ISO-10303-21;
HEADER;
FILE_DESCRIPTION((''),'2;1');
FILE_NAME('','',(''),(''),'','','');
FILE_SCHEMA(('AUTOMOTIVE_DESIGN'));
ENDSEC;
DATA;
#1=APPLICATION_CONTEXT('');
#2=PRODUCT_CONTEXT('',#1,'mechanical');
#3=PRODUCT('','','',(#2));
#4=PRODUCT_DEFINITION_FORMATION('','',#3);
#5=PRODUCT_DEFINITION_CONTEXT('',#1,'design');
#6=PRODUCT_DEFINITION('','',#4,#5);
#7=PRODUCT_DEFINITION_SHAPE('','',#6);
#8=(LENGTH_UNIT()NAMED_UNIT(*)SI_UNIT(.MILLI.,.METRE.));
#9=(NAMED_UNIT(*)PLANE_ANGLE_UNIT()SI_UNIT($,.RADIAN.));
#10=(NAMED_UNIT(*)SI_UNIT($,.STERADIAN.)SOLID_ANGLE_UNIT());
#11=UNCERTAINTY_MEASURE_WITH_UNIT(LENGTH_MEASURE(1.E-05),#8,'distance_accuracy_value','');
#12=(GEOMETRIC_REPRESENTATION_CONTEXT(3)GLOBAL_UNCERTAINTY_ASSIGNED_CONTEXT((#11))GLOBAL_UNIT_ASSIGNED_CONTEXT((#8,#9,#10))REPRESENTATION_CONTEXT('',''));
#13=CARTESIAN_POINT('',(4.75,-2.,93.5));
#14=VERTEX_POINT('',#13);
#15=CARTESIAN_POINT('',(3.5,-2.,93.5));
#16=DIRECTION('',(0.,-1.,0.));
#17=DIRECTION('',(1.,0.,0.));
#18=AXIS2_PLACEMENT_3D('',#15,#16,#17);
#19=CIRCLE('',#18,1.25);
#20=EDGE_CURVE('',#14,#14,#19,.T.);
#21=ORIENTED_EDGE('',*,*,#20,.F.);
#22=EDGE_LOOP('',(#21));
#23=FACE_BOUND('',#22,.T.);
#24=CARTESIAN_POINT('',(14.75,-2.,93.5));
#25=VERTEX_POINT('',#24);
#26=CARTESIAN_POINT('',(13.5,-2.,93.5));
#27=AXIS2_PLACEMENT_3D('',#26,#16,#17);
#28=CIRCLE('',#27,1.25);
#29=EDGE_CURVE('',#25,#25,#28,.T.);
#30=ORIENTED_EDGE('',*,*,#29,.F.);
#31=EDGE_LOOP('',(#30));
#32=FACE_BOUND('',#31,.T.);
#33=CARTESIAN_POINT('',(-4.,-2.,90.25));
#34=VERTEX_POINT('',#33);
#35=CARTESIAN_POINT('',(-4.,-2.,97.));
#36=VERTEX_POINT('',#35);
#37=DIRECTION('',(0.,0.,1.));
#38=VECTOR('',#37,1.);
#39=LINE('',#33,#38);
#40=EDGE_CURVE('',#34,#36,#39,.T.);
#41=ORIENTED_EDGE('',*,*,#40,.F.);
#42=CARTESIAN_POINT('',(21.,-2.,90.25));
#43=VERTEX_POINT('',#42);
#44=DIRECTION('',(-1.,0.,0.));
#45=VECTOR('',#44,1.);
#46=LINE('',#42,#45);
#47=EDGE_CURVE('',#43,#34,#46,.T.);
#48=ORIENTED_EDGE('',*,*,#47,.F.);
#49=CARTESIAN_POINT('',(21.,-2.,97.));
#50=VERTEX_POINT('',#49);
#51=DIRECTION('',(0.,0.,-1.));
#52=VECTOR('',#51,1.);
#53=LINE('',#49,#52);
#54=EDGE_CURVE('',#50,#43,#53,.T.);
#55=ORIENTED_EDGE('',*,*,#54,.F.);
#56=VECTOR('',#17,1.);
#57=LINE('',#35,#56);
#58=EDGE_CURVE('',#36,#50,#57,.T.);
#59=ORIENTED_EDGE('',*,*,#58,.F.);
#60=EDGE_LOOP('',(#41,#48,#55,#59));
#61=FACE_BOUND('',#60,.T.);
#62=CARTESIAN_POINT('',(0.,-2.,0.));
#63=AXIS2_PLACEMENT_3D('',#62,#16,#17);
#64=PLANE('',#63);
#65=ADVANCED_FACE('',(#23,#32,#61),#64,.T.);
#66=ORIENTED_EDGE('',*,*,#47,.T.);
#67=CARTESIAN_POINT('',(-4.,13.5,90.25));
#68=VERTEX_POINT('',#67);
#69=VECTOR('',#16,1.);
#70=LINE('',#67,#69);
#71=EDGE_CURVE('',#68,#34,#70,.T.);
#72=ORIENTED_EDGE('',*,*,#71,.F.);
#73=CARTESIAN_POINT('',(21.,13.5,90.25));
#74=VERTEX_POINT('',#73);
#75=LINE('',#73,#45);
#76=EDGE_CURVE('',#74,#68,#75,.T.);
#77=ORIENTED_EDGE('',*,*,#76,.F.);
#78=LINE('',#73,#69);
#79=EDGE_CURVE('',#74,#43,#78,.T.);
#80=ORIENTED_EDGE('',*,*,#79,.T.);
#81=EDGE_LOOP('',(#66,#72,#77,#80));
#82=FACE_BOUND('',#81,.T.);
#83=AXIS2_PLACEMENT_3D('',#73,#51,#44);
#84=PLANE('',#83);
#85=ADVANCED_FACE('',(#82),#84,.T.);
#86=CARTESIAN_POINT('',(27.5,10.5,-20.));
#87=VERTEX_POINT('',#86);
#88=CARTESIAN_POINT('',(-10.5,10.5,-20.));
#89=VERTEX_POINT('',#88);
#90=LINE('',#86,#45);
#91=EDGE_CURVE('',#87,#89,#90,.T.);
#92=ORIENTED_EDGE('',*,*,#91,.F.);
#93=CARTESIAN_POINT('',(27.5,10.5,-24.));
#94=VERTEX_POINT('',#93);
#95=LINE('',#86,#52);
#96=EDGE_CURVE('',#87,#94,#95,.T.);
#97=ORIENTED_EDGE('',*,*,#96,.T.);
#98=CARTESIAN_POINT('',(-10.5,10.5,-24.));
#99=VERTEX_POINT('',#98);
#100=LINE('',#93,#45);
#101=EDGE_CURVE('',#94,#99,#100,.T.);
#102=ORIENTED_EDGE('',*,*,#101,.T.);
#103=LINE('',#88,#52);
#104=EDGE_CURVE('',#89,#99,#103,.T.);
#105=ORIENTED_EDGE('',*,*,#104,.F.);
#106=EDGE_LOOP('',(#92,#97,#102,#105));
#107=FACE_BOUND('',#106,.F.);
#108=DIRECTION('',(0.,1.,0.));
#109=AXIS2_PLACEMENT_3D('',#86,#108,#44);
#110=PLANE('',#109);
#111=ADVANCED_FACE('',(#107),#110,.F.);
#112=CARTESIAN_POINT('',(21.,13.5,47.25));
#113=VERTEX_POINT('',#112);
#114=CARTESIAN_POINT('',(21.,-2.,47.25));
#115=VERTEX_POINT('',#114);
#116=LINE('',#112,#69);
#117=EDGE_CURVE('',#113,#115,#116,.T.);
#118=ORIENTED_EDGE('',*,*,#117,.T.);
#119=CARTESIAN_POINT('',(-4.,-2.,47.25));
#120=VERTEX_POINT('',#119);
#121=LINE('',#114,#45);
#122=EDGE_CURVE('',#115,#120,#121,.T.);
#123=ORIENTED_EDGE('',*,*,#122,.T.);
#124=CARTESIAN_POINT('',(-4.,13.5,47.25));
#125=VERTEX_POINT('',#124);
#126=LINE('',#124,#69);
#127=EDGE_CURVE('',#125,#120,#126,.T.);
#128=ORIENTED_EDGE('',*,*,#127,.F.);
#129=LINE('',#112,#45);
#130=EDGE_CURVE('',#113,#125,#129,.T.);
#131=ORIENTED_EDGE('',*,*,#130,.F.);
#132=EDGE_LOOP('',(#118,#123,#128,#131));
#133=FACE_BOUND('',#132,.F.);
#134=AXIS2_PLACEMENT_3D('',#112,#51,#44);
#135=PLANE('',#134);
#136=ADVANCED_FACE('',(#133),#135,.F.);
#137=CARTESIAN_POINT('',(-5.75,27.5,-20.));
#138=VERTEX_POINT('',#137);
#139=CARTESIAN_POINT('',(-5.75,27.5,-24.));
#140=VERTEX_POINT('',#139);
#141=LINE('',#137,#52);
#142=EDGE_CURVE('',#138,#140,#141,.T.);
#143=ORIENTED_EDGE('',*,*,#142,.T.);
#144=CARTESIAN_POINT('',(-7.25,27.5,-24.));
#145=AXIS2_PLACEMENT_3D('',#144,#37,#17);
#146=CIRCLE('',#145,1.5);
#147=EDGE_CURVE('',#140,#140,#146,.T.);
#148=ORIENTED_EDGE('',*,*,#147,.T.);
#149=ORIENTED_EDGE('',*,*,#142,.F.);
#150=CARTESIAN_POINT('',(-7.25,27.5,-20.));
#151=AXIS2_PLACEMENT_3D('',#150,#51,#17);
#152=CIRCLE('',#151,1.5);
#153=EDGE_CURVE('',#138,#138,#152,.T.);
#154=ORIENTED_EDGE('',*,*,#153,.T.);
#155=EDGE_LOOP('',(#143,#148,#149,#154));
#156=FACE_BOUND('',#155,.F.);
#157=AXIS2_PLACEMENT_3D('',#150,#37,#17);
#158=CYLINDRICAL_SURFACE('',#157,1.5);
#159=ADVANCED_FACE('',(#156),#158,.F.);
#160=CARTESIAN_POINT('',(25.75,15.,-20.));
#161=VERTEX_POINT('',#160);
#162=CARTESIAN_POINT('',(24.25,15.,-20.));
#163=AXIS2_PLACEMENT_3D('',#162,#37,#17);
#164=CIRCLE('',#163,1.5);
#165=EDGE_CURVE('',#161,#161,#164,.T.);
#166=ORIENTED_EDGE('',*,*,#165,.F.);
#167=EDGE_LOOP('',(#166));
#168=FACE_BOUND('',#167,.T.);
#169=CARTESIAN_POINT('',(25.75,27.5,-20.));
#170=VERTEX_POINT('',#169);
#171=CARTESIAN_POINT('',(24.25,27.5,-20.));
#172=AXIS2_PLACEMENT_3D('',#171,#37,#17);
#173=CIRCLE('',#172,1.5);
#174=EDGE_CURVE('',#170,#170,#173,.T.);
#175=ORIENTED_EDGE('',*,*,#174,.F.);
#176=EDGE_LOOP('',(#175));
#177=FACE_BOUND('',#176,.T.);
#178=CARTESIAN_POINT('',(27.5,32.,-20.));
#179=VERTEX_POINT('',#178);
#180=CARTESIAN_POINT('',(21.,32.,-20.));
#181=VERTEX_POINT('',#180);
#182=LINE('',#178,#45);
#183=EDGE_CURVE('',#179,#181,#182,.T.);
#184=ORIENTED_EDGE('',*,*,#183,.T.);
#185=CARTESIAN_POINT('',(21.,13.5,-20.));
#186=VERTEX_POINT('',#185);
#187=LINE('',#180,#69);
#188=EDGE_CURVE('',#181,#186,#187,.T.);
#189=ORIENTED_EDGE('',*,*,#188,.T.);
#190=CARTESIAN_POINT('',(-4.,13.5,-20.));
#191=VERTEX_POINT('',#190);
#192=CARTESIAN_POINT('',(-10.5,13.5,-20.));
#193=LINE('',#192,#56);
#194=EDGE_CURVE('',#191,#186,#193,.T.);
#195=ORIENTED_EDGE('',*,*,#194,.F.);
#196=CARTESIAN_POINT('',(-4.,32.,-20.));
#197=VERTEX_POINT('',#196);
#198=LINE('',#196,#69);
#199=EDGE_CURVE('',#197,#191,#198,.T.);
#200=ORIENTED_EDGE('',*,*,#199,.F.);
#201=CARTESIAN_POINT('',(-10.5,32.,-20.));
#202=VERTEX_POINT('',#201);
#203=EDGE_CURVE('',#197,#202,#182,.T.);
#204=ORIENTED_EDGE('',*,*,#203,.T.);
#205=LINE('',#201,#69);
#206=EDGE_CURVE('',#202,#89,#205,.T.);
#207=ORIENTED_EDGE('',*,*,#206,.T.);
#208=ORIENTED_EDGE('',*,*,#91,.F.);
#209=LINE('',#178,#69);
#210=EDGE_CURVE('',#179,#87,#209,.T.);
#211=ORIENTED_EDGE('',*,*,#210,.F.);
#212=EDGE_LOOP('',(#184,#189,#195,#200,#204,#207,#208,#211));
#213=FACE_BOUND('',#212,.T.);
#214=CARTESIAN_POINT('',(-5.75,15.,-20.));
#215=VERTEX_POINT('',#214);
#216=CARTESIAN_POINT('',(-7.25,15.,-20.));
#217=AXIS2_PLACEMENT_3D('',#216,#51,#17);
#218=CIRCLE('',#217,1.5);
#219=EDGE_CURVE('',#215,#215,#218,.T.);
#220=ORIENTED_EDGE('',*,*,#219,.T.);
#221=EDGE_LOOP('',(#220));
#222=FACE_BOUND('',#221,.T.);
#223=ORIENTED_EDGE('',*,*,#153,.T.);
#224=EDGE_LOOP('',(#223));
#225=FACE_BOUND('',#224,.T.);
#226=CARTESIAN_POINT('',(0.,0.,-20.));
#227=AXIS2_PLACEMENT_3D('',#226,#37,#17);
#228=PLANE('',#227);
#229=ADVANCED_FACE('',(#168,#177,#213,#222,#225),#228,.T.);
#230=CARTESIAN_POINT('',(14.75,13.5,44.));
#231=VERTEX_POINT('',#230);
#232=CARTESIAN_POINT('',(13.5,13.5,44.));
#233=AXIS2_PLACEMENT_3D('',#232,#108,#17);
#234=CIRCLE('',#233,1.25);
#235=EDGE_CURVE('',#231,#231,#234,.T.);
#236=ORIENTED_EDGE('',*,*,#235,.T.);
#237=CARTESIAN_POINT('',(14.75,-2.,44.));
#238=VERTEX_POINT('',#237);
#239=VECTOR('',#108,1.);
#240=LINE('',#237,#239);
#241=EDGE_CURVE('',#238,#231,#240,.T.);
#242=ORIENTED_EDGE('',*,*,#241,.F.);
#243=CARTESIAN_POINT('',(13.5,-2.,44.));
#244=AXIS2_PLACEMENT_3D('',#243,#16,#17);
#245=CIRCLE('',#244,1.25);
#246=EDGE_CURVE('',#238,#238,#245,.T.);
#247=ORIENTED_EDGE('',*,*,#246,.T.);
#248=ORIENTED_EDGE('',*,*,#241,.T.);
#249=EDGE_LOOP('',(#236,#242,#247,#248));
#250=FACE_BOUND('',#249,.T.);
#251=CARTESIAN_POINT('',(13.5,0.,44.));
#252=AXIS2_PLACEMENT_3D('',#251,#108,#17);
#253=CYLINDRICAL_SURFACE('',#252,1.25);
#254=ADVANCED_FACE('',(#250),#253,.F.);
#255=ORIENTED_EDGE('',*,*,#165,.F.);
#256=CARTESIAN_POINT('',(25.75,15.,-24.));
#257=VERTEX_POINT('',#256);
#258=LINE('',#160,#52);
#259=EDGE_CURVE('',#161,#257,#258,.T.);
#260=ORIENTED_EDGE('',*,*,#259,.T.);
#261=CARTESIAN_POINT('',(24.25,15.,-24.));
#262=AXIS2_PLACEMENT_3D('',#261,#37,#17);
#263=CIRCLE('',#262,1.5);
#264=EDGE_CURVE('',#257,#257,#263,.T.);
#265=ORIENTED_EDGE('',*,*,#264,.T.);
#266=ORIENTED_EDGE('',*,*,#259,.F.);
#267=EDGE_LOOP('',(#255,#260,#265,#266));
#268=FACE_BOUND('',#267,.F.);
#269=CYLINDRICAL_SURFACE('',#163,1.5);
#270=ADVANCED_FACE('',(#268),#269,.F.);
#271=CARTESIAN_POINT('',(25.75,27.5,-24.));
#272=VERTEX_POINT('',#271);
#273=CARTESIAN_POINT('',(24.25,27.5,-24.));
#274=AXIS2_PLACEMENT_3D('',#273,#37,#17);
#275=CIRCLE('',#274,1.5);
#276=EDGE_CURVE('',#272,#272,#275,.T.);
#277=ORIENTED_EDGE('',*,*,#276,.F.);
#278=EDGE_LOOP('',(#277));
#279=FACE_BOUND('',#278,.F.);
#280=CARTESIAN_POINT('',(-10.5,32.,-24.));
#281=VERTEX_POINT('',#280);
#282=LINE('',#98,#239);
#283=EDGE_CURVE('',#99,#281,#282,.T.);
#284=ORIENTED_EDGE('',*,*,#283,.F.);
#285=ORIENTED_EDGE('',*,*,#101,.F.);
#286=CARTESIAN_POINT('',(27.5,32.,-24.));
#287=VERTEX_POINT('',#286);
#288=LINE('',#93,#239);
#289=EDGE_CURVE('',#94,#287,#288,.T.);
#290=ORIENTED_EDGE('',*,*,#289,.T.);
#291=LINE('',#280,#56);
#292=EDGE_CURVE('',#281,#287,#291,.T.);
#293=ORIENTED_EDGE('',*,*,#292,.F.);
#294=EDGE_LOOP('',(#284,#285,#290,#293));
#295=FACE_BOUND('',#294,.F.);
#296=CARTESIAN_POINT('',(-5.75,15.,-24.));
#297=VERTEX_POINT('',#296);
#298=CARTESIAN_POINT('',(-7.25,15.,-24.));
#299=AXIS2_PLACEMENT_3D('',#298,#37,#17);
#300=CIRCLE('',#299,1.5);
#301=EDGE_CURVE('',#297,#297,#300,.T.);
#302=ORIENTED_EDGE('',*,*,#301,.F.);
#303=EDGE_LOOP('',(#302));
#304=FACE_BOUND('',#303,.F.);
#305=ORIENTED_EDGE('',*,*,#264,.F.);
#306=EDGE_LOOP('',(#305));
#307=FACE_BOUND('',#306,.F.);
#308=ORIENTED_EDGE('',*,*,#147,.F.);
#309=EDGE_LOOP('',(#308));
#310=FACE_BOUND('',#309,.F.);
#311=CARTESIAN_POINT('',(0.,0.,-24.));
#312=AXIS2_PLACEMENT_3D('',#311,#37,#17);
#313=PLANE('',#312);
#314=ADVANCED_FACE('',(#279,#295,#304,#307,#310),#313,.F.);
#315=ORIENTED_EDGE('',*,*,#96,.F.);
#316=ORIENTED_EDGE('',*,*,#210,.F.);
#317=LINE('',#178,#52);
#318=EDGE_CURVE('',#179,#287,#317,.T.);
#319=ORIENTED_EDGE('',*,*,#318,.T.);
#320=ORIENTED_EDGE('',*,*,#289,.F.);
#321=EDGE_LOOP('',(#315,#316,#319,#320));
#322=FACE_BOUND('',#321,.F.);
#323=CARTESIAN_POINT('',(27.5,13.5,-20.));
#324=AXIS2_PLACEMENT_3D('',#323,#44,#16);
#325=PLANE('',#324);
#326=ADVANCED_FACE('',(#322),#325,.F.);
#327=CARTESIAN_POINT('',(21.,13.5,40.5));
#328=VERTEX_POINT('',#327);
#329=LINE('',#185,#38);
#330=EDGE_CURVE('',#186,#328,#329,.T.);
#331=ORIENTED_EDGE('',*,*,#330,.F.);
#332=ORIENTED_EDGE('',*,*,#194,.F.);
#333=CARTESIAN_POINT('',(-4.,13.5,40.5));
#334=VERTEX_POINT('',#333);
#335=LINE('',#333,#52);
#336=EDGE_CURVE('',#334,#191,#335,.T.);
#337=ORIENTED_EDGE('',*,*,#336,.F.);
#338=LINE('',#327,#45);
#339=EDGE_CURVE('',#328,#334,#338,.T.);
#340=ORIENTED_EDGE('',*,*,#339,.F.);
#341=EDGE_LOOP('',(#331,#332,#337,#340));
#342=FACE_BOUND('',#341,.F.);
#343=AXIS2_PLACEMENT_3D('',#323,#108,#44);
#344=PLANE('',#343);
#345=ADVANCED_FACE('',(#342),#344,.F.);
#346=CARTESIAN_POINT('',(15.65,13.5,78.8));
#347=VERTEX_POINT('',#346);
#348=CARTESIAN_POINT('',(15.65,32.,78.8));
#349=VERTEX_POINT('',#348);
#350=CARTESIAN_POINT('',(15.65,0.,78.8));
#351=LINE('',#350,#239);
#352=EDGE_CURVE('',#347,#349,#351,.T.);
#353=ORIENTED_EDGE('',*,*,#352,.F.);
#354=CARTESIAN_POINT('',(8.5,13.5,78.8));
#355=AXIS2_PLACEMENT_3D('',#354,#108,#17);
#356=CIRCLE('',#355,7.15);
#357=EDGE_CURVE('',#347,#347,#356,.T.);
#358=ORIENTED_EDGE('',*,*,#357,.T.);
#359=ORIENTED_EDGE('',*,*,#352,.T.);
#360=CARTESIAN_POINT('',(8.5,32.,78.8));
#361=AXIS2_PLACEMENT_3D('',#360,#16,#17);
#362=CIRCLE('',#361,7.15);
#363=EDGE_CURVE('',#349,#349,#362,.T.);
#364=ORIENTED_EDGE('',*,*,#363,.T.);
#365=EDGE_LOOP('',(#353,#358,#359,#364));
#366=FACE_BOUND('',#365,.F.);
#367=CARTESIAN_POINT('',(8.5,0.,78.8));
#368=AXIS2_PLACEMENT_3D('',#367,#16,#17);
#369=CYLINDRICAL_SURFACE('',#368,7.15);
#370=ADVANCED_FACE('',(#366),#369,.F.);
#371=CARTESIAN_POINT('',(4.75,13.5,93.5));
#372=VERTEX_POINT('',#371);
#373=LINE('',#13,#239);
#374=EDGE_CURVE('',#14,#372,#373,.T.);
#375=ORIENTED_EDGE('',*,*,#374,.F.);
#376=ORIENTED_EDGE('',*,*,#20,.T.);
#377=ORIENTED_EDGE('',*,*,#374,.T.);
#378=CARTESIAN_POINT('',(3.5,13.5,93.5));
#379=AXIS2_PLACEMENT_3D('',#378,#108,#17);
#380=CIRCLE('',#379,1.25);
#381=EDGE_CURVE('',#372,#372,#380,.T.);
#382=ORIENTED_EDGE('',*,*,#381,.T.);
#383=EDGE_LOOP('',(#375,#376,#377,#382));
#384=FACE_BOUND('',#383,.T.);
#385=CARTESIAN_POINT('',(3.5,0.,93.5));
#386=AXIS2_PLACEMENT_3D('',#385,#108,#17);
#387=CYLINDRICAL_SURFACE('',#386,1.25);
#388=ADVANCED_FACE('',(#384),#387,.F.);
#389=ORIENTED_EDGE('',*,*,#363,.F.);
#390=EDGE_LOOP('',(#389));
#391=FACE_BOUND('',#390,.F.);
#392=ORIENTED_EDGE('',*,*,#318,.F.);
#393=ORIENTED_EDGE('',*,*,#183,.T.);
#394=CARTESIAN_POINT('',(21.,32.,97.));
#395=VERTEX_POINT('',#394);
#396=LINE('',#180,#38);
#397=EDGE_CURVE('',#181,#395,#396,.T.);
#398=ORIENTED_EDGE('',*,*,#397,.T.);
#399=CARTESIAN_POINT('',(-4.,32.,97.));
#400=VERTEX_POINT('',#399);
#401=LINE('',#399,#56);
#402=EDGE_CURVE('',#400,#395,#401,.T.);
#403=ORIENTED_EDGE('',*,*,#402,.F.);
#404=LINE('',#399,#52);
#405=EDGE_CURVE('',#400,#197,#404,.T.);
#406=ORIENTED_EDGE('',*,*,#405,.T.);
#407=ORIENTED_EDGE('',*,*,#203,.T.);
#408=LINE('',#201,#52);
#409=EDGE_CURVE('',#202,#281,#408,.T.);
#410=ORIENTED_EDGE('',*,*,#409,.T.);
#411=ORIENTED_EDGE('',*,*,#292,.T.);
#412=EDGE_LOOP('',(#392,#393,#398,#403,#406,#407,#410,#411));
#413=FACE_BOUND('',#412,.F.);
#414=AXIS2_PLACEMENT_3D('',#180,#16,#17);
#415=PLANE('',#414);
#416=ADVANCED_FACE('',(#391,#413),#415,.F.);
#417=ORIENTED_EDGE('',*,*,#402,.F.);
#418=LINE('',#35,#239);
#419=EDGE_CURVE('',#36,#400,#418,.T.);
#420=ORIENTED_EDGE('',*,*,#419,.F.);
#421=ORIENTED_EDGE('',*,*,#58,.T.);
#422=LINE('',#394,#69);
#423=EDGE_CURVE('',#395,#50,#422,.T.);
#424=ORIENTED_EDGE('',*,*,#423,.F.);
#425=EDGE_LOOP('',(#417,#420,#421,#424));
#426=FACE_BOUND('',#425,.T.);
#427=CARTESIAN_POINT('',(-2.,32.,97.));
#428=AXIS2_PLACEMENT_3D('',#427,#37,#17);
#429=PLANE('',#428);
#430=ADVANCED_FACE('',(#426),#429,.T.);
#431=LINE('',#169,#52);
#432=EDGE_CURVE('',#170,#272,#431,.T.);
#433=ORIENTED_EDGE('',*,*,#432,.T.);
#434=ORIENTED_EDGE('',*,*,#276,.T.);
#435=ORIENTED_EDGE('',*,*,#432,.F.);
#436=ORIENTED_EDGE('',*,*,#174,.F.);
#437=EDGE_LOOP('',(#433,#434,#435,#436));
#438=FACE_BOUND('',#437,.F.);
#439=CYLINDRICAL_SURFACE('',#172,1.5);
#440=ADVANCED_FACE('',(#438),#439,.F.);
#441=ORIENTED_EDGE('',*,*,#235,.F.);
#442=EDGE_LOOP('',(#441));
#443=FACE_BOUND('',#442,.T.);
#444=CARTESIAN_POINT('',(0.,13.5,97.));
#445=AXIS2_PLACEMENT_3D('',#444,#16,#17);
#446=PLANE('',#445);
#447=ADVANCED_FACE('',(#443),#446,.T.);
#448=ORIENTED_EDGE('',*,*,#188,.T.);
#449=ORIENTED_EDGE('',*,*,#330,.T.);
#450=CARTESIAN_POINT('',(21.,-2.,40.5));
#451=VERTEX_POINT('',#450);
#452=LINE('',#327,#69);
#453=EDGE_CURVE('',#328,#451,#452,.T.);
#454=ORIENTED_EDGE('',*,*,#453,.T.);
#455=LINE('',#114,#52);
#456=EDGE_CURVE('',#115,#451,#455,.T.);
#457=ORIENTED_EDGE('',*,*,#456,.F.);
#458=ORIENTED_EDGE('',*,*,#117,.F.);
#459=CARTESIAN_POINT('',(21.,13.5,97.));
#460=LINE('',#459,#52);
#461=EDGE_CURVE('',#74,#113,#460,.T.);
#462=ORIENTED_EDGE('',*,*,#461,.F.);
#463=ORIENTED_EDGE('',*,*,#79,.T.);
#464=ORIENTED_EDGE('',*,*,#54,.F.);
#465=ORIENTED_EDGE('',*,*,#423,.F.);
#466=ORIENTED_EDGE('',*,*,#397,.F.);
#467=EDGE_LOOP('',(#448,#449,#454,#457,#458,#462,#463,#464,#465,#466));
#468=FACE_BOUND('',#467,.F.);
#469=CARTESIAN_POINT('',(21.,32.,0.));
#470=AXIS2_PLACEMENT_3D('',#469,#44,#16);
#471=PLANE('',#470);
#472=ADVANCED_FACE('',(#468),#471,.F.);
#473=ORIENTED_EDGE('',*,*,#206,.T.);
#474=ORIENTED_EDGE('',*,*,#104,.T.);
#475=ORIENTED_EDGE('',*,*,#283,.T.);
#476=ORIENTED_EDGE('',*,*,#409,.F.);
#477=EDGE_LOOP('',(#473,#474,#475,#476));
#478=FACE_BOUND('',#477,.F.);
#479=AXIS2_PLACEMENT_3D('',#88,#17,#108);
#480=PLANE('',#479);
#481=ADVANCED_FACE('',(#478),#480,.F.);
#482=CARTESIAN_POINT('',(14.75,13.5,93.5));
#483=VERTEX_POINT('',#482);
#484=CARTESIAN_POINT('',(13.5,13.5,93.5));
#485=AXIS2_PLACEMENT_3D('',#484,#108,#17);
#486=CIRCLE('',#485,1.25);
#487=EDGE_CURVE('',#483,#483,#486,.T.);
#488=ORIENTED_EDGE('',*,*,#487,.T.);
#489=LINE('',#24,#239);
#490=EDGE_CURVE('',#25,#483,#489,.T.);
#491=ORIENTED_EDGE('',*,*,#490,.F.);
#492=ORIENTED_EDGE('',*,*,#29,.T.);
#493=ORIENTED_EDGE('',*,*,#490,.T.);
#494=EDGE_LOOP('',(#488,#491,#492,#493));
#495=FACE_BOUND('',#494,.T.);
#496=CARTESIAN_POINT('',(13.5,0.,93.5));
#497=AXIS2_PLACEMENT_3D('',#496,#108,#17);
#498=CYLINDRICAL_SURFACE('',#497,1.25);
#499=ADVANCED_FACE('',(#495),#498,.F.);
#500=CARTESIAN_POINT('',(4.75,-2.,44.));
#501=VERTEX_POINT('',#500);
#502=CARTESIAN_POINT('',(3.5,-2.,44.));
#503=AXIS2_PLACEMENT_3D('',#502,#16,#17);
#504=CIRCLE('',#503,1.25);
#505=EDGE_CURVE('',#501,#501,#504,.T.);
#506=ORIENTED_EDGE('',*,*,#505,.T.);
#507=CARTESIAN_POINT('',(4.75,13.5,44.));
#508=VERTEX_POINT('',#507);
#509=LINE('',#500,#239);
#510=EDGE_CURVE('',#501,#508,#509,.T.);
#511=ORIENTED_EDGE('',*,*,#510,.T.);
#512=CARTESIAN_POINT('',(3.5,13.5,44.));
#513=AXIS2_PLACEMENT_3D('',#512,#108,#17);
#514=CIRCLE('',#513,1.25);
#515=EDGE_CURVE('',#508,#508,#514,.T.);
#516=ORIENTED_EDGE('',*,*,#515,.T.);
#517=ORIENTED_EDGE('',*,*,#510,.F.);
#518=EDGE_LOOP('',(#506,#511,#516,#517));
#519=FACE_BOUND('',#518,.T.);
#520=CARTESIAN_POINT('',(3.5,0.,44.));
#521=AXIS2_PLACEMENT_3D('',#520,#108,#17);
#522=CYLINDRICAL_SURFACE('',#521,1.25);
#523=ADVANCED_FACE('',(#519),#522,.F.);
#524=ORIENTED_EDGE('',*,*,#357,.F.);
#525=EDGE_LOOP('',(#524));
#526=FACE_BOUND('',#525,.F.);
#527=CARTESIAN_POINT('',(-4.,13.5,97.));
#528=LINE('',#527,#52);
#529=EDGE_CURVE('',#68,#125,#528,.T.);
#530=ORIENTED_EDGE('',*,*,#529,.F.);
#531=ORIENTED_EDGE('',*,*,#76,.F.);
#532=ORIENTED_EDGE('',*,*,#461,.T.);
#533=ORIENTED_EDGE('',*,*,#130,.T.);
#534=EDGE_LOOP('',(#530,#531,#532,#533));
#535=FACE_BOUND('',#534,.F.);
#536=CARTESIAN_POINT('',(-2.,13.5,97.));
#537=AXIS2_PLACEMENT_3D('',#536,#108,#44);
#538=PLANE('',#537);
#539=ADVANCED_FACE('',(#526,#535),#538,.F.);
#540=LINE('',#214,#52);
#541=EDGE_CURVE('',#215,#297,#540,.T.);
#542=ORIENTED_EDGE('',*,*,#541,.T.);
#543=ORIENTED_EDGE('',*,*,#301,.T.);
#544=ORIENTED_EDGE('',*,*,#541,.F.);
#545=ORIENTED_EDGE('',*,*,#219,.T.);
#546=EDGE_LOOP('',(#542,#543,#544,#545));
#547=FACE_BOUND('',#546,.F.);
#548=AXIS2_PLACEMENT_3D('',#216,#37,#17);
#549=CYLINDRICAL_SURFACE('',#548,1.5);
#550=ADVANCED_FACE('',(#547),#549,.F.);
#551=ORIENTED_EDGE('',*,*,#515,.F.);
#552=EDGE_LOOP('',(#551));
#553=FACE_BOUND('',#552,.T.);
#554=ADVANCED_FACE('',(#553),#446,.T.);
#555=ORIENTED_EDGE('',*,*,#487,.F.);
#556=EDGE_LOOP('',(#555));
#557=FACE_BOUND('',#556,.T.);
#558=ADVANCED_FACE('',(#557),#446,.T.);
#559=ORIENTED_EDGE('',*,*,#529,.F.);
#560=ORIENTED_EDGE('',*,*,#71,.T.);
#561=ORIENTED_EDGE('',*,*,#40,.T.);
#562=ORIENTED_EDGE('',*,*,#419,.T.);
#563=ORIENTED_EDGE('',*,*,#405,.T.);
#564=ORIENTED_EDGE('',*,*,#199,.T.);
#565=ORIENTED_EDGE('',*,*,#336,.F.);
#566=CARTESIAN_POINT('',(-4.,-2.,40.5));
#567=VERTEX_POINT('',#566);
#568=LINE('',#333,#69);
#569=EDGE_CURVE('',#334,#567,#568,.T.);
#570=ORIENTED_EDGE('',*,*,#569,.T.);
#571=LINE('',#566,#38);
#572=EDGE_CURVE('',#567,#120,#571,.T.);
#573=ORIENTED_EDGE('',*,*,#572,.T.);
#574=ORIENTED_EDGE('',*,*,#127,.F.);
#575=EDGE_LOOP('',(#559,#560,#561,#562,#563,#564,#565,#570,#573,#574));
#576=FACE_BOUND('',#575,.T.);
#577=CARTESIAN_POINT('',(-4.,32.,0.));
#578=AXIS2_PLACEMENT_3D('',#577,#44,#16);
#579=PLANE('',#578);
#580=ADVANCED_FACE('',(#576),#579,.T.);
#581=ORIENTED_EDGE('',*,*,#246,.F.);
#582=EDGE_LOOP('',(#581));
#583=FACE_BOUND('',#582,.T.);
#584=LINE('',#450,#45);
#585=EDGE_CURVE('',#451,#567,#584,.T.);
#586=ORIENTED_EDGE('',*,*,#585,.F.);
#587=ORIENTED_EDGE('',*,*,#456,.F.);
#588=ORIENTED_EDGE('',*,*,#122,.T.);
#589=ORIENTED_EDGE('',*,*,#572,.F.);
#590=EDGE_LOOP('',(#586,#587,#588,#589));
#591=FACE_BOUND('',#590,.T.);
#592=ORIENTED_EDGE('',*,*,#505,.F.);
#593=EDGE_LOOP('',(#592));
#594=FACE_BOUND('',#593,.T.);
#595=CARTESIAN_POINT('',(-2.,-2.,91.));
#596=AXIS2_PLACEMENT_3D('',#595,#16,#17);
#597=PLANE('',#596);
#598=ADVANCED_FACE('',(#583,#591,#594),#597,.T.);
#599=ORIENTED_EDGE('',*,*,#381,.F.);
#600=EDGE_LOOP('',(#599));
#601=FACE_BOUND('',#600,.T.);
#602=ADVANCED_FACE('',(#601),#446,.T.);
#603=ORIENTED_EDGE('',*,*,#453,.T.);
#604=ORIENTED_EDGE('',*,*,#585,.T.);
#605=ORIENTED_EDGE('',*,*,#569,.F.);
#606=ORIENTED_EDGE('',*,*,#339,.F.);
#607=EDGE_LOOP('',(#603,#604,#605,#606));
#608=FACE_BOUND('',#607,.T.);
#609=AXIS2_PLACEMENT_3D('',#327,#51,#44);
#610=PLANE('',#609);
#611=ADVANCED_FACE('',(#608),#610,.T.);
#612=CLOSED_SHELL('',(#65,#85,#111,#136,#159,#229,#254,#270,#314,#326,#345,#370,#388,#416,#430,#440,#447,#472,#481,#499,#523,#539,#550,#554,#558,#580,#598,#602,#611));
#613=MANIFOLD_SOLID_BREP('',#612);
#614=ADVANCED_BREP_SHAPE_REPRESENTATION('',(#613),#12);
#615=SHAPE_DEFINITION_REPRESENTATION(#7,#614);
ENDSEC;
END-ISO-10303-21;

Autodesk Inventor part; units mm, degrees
ref_plane "YZ Plane" through (0, 0, 0) normal (1, 0, 0) x (0, 1, 0)
ref_plane "XZ Plane" through (0, 0, 0) normal (0, 1, 0) x (-1, 0, 0)
ref_plane "XY Plane" through (0, 0, 0) normal (0, 0, 1) x (1, 0, 0)
sketch "Sketch14" plane through (0, 0, 0) normal (0, 0, 1) x (1, 0, 0)
  line L0 (0, 0) -> (17, 0)
  line L1 (17, 0) -> (17, 30)
  line L2 (17, 30) -> (0, 30)
  line L3 (0, 30) -> (0, 0)
  line L4 (-6, 36) -> (23, 36)
  line L5 (23, 36) -> (23, -6)
  line L6 (23, -6) -> (-6, -6)
  line L7 (-6, -6) -> (-6, 36)
  dimension "d55" = 17
  dimension "d56" = 30
  dimension "d57" = 6
extrude "Extrusion12" add sketch "Sketch14" against normal blind 3 contours L3 L2 L1 L0 | L4 L5 L6 L7
extrude "Extrusion13" add sketch "Sketch14" along normal blind 90 contours L3 L2 L1 L0
sketch "Sketch15" plane through (0, 0, 0) normal (0, -1, 0) x (1, 0, 0)
  line L0 (0, 0) -> (0, 90) projected
  line L1 (0, 90) -> (17.1111, 90)
  line L2 (0, 90) -> (17, 90)
  line L3 (17, 90) -> (17, 97)
  line L4 (17, 97) -> (0, 97)
  line L5 (0, 97) -> (0, 90)
  line L6 (17, 90) -> (0, 90) projected
  circle A0 centre (3.5, 93.5) radius 1.25
  circle A1 centre (13.5, 93.5) radius 1.25
  line L7 (8.5, 113.1) -> (8.5, 78.8)
  circle A2 centre (8.5, 78.8) radius 7.15
  circle A3 centre (3.5, 44) radius 1.25
  circle A4 centre (13.5, 44) radius 1.25
  line L8 (17, 0) -> (17, 90) projected
  line L9 (0, 97) -> (17, 97)
  line L10 (17, 97) -> (17, 42)
  line L11 (17, 42) -> (0, 42)
  line L12 (0, 42) -> (0, 97)
  line L13 (8.5, 113.1) -> (8.5, 98.4)
  line L14 (3.5, 44) -> (13.5, 44)
  dimension "d67" = 7
  dimension "d70" = 2.5
  dimension "d71" = 2.5
  dimension "d72" = 34.3
  dimension "d73" = 14.3
  dimension "d79" = 55
  dimension "d95" = 14.7
extrude "Extrusion14" cut sketch "Sketch15" against normal blind 169.375 contours A2
extrude "Extrusion15" cut sketch "Sketch15" against normal blind 15.5 contours L0 L1 L8 L11
extrude "Extrusion16" cut sketch "Sketch15" against normal blind 20 contours A3 | A4
extrude "Extrusion17" add sketch "Sketch15" against normal blind 30 contours L5 L4 L7 L1 | L7 L4 L3 L1
sketch "Sketch16" plane through (0, 0, 0) normal (0, -1, 0) x (1, 0, 0)
  line L0 (0, 0) -> (0, 97) projected
  line L1 (17, 0) -> (17, 97) projected
  line L2 (0, 97) -> (17, 97)
  line L3 (17, 97) -> (17, 90)
  line L4 (17, 90) -> (0, 90)
  line L5 (0, 90) -> (0, 97)
  dimension "d86" = 7
extrude "Extrusion18" cut sketch "Sketch15" against normal blind 15.5 contours L5 L4 L7 L1 | L7 L4 L3 L1
sketch "Sketch17" plane through (0, 15.5, 0) normal (0, -1, 0) x (1, 0, 0)
  line L0 (0, 97) -> (17, 97) projected
  line L1 (17, 0) -> (17, 97) projected
  line L2 (0, 97) -> (17, 97)
  line L3 (17, 97) -> (17, 91)
  line L4 (17, 91) -> (0, 91)
  line L5 (0, 91) -> (0, 97)
  line L6 (17, 42) -> (0, 42) projected
  line L7 (0, 42) -> (17, 42)
  line L8 (17, 42) -> (17, 47)
  line L9 (17, 47) -> (0, 47)
  line L10 (0, 47) -> (0, 42)
  circle A0 centre (3.5, 44) radius 1.25 projected
  circle A1 centre (3.5, 44) radius 1.25
  circle A2 centre (13.5, 44) radius 1.25 projected
  circle A3 centre (13.5, 44) radius 1.25
  circle A4 centre (3.5, 93.5) radius 1.25 projected
  circle A5 centre (3.5, 93.5) radius 1.25
  circle A6 centre (13.5, 93.5) radius 1.25 projected
  circle A7 centre (13.5, 93.5) radius 1.25
  point P0 (0, 0)
  dimension "d89" = 6
  dimension "d90" = 5
  dimension "d91" = 2.5
  dimension "d92" = 2.5
extrude "Extrusion19" add sketch "Sketch17" along normal blind 15.5
sketch "Sketch19" plane through (0, 0, 0) normal (0, -1, 0) x (1, 0, 0)
  line L0 (0, 0) -> (0, 47) projected
  line L1 (17, 0) -> (17, 47) projected
  line L2 (0, 0) -> (17, 0)
  line L3 (17, 0) -> (17, 40)
  line L4 (17, 40) -> (0, 40)
  line L5 (0, 40) -> (0, 0)
  dimension "d96" = 40
extrude "Extrusion20" cut sketch "Sketch19" against normal blind 15.5
sketch "Sketch23" plane through (0, 0, 0) normal (0, 0, 1) x (1, 0, 0)
  line L0 (0, 15.5) -> (17, 15.5) projected
  line L1 (0, 15.5) -> (0, 9.5)
  line L2 (0, 15.5) -> (0, 0) projected
  line L3 (0, 9.5) -> (-6, 9.5)
  line L4 (-6, -6) -> (-6, 36) projected
  line L5 (23, 36) -> (23, -6) projected
  line L6 (23, 9.5) -> (0, 9.5)
  line L7 (-6, 9.5) -> (23, 9.5)
  line L8 (23, 9.5) -> (23, 36)
  line L9 (23, 36) -> (-6, 36)
  line L10 (-6, 36) -> (-6, 9.5)
  line L11 (23, -6) -> (-6, -6) projected
  line L12 (-6, -6) -> (23, -6)
  line L13 (23, -6) -> (23, 9.5)
  line L14 (23, 9.5) -> (-6, 9.5)
  line L15 (-6, 9.5) -> (-6, -6)
  dimension "d99" = 6
extrude "Extrusion21" cut sketch "Sketch23" against normal blind 15.5 contours L6 L5 L11 L4 L3
sketch "Sketch24" plane through (0, 30, 97) normal (0, 0, 1) x (1, 0, 0)
  line L0 (17, 0) -> (17, -14.5) projected
  line L1 (17, 0) -> (19, 0)
  line L2 (19, 0) -> (19, 2)
  line L3 (0, -14.5) -> (0, -30) projected
  line L4 (0, -14.5) -> (-2, -14.5)
  line L5 (-2, -14.5) -> (-2, -16.5)
  line L6 (-2, -16.5) -> (19, -16.5)
  line L7 (19, -16.5) -> (19, 2)
  line L8 (19, 2) -> (-2, 2)
  line L9 (-2, 2) -> (-2, -16.5)
  dimension "d111" = 2
  dimension "d112" = 2
  dimension "d113" = 2
  dimension "d114" = 2
extrude "Extrusion22" add sketch "Sketch24" against normal blind 97
extrude "Extrusion23" cut sketch "Sketch15" against normal blind 169.375 contours A2
sketch "Sketch26" plane through (-2, 13.5, 0) normal (0, -1, 0) x (1, 0, 0)
  line L0 (0, 97) -> (2, 97) projected
  line L1 (2, 97) -> (2, 91) projected
  line L2 (0, 97) -> (2, 97)
  line L3 (2, 97) -> (2, 91)
  line L4 (2, 91) -> (0, 91)
  line L5 (0, 91) -> (0, 97)
  line L6 (2, 91) -> (19, 91) projected
  line L7 (19, 97) -> (21, 97) projected
  line L8 (19, 91) -> (21, 91)
  line L9 (21, 91) -> (21, 97)
  line L10 (21, 97) -> (19, 97)
  line L11 (19, 97) -> (19, 91)
  line L12 (2, 40) -> (19, 40) projected
  line L13 (0, 97) -> (0, 0) projected
  line L14 (2, 40) -> (0, 40)
  line L15 (0, 40) -> (0, 47)
  line L16 (0, 47) -> (2, 47)
  line L17 (2, 47) -> (2, 40)
  line L18 (19, 40) -> (19, 47) projected
  line L19 (21, 97) -> (21, 0) projected
  line L20 (19, 40) -> (21, 40)
  line L21 (21, 40) -> (21, 47)
  line L22 (21, 47) -> (19, 47)
  line L23 (19, 47) -> (19, 40)
  point P0 (2, 0)
  point P1 (0, 40)
  dimension "d119" = 7
extrude "Extrusion24" add sketch "Sketch26" along normal blind 13.5 contours L0 L1 L4 L5 | L16 L17 L14 L13 | L11 L7 L9 L8 | L19 L20 L18 L22
sketch "Sketch27" plane through (0, 0, 0) normal (0, 0, 1) x (1, 0, 0)
  point P0 (0, 0)
sketch "Sketch28" plane through (0, 0, 0) normal (0, 0, 1) x (1, 0, 0)
  line L0 (-6, 9.5) -> (-6, 36) projected
  line L1 (-6, 36) -> (23, 36) projected
  line L2 (-6, 31.9237) -> (23, 31.9237)
  line L3 (23, 31.9237) -> (23, 36)
  line L4 (23, 36) -> (-6, 36)
  line L5 (-6, 36) -> (-6, 31.9237)
  point P0 (0, 0)
extrude "Extrusion25" cut sketch "Sketch28" against normal blind 13.5
sketch "Sketch29" plane through (0, 0, 0) normal (0, -1, 0) x (1, 0, 0)
  point P0 (0, 0)
sketch "Sketch30" plane through (0, 0, 0) normal (0, -1, 0) x (1, 0, 0)
  line L0 (19, 97) -> (-2, 97) projected
  line L1 (-2, 91) -> (19, 91) projected
  line L2 (-2, 97) -> (19, 97)
  line L3 (19, 97) -> (19, 91)
  line L4 (19, 91) -> (-2, 91)
  line L5 (-2, 91) -> (-2, 97)
  line L6 (-2, 47) -> (-2, 40) projected
  line L7 (-2, 40) -> (19, 40) projected
  line L8 (-2, 47) -> (19, 47)
  line L9 (19, 47) -> (19, 40)
  line L10 (19, 40) -> (-2, 40)
  line L11 (-2, 40) -> (-2, 47)
  circle A0 centre (3.5, 93.5) radius 1.25 projected
  circle A1 centre (3.5, 93.5) radius 1.25
  circle A2 centre (13.5, 93.5) radius 1.25 projected
  circle A3 centre (13.5, 93.5) radius 1.25
  circle A4 centre (3.5, 44) radius 1.25 projected
  circle A5 centre (3.5, 44) radius 1.25
  circle A6 centre (13.5, 44) radius 1.25 projected
  circle A7 centre (13.5, 44) radius 1.25
  point P0 (0, 0)
extrude "Extrusion26" add sketch "Sketch30" along normal blind 2
sketch "Sketch31" plane through (0, 0, -3) normal (0, 0, -1) x (-1, 0, 0)
  point P0 (0, 0)
  point P1 (6, 9.5)
  point P2 (-23, 31.9237)
sketch "Sketch32" plane through (-2, 13.5, 47) normal (0, -1, 0) x (1, 0, 0)
  point P0 (2, -47)
sketch "Sketch33" plane through (-2, 32, 97) normal (0, 0, 1) x (1, 0, 0)
  line L0 (21, -34) -> (21, 0) projected
  line L1 (-4, -22.5) -> (25, -22.5) projected
  line L2 (21, 0) -> (23, 0)
  line L3 (23, 0) -> (23, -22.5)
  line L4 (23, -22.5) -> (21, -22.5)
  line L5 (21, -22.5) -> (21, 0)
  line L6 (0, -18.5) -> (0, -34) projected
  line L7 (-4, -0.0763) -> (25, -0.0763) projected
  line L8 (0, -22.5) -> (-2, -22.5)
  line L9 (-2, -22.5) -> (-2, -0.0763)
  line L10 (-2, -0.0763) -> (0, -0.0763)
  line L11 (0, -0.0763) -> (0, -22.5)
  line L12 (0, -18.5) -> (-2, -18.5)
  line L13 (21, -18.5) -> (21, -34) projected
  line L14 (21, -18.5) -> (23, -18.5)
  point P0 (2, -32)
  point P1 (0, -0.0763)
  point P2 (23, -0.0763)
  point P3 (21, -0.0763)
  dimension "d126" = 2
  dimension "d127" = 2
extrude "Extrusion27" add sketch "Sketch33" against normal blind 100 contours L0 L7 L3 L14 | L12 L9 L7 L11
sketch "Sketch34" plane through (0, -2, 0) normal (0, -1, 0) x (1, 0, 0)
  line L0 (-2, 47) -> (19, 47) projected
  line L1 (-2, 47) -> (-2, 40) projected
  line L2 (19, 47) -> (-2, 47)
  line L3 (-2, 47) -> (-2, 41)
  line L4 (-2, 41) -> (19, 41)
  line L5 (19, 41) -> (19, 47)
  line L6 (-2, 40) -> (19, 40) projected
  line L7 (19, 41) -> (-2, 41)
  line L8 (-2, 41) -> (-2, 40)
  line L9 (-2, 40) -> (19, 40)
  line L10 (19, 40) -> (19, 41)
  point P0 (0, 0)
  dimension "d130" = 6
sketch "Sketch35" plane through (0, -2, 0) normal (0, -1, 0) x (1, 0, 0)
  line L0 (-2, 47) -> (19, 47) projected
  line L1 (-2, 47) -> (-2, 91) projected
  line L2 (19, 47) -> (-2, 47)
  line L3 (-2, 47) -> (-2, 46.5)
  line L4 (-2, 46.5) -> (19, 46.5)
  line L5 (19, 46.5) -> (19, 47)
  line L6 (-2, 40) -> (19, 40) projected
  line L7 (-2, 47) -> (-2, 40) projected
  line L8 (19, 40) -> (-2, 40)
  line L9 (-2, 40) -> (-2, 40.5)
  line L10 (-2, 40.5) -> (19, 40.5)
  line L11 (19, 40.5) -> (19, 40)
  point P0 (0, 0)
  point P1 (-2, 41)
  dimension "d133" = 0.5
  dimension "d136" = 0.5
extrude "Extrusion29" cut sketch "Sketch35" against normal blind 15.5 contours L0 L5 L4 L3
extrude "Extrusion30" cut sketch "Sketch35" against normal blind 15.5 contours L10 L11 L6 L7
sketch "Sketch36" plane through (-2, 13.5, 91) normal (0, -1, 0) x (1, 0, 0)
  line L0 (-2, 6) -> (0, 6) projected
  line L1 (21, 0) -> (0, 0) projected
  line L2 (-2, 6) -> (0, 6)
  line L3 (0, 6) -> (0, 0)
  line L4 (0, 0) -> (-2, 0)
  line L5 (-2, 0) -> (-2, 6)
  line L6 (21, 0) -> (21, 6) projected
  line L7 (23, 6) -> (23, -91) projected
  line L8 (21, 6) -> (23, 6)
  line L9 (23, 6) -> (23, 0)
  line L10 (23, 0) -> (21, 0)
  line L11 (21, 0) -> (21, 6)
  line L12 (21, -44.5) -> (0, -44.5) projected
  line L13 (-2, 6) -> (-2, -91) projected
  line L14 (0, -44.5) -> (-2, -44.5)
  line L15 (-2, -44.5) -> (-2, -50.5)
  line L16 (-2, -50.5) -> (0, -50.5)
  line L17 (0, -50.5) -> (0, -44.5)
  line L18 (21, -44.5) -> (23, -44.5)
  line L19 (23, -44.5) -> (23, -50.5)
  line L20 (23, -50.5) -> (21, -50.5)
  line L21 (21, -50.5) -> (21, -44.5)
  point P0 (2, -91)
  point P1 (23, -44.5)
  dimension "d139" = 6
extrude "Extrusion31" add sketch "Sketch36" along normal blind 15.5 contours L0 L3 L4 L5 | L14 L17 L16 L13 | L6 L8 L7 L10 | L18 L7 L20 L21
sketch "Sketch37" plane through (0, 0, -3) normal (0, 0, -1) x (-1, 0, 0)
  line L0 (-23, 9.5) -> (6, 9.5) projected
  line L1 (-23, 9.5) -> (6, 9.5)
  line L2 (6, 9.5) -> (6, 32)
  line L3 (6, 32) -> (-23, 32)
  line L4 (-23, 32) -> (-23, 9.5)
  point P0 (0, 0)
  point P1 (6, 9.5)
  dimension "d142" = 29
extrude "Extrusion32" add sketch "Sketch37" against normal blind 3
sketch "Sketch38" plane through (0, 0, -3) normal (0, 0, -1) x (-1, 0, 0)
  line L0 (-23, 9.5) -> (6, 9.5) projected
  line L1 (-23, 9.5) -> (-27, 9.5)
  line L2 (-27, 9.5) -> (-27, 32)
  line L3 (6, 32) -> (-23, 32) projected
  line L4 (-27, 32) -> (6, 32)
  line L5 (6, 9.5) -> (10, 9.5)
  line L6 (10, 9.5) -> (10, 32)
  line L7 (10, 32) -> (-27, 32)
  point P0 (0, 0)
  dimension "d145" = 4
  dimension "d146" = 4
extrude "Extrusion33" add sketch "Sketch38" against normal blind 3
sketch "Sketch39" plane through (0, 0, 0) normal (0, 0, 1) x (1, 0, 0)
  line L0 (21, 31.9237) -> (19, 31.9237) projected
  line L1 (19, 32) -> (19, 31.9237) projected
  line L2 (21, 31.9237) -> (19, 31.9237)
  line L3 (19, 31.9237) -> (19, 32)
  line L4 (19, 32) -> (21, 32)
  line L5 (21, 32) -> (21, 31.9237)
  line L6 (-2, 31.9237) -> (-2, 32) projected
  line L7 (-2, 31.9237) -> (-4, 31.9237) projected
  line L8 (-2, 32) -> (-4, 32)
  line L9 (-4, 32) -> (-4, 31.9237)
  line L10 (-4, 31.9237) -> (-2, 31.9237)
  line L11 (-2, 31.9237) -> (-2, 32)
  point P0 (0, 0)
extrude "Extrusion34" add sketch "Sketch39" along normal blind 97
sketch "Sketch40" plane through (0, 0, 0) normal (0, 0, 1) x (1, 0, 0)
  point P0 (0, 0)
sketch "Sketch41" plane through (0, 0, 0) normal (0, 0, 1) x (1, 0, 0)
  line L0 (-10, 32) -> (-10, 27.5)
  line L1 (-10, 32) -> (-10, 9.5) projected
  line L2 (-10, 9.5) -> (27, 9.5) projected
  line L3 (-10, 9.5) -> (-10, 14)
  line L4 (-10, 9.5) -> (-10.5, 9.5)
  line L5 (-10.5, 9.5) -> (-10.5, 32)
  line L6 (-10.5, 32) -> (-10, 32)
  line L7 (-10, 32) -> (-10, 9.5)
  line L8 (-10.5, 14) -> (-7.5, 14)
  line L9 (-10.5, 27.5) -> (-7.5, 27.5)
  circle A0 centre (-7.5, 14) radius 1.5
  circle A1 centre (-7.5, 27.5) radius 1.5
  line L10 (27, 9.5) -> (27, 32) projected
  line L11 (27, 9.5) -> (27.5, 9.5)
  line L12 (27.5, 9.5) -> (27.5, 32)
  line L13 (27.5, 32) -> (27, 32)
  line L14 (27, 32) -> (27, 9.5)
  line L15 (27.5, 9.5) -> (27.5, 14)
  line L16 (27.5, 14) -> (24.5, 14)
  line L17 (27.5, 32) -> (27.5, 27.5)
  line L18 (27.5, 27.5) -> (24.5, 27.5)
  circle A2 centre (24.5, 14) radius 1.5
  circle A3 centre (24.5, 27.5) radius 1.5
  point P0 (0, 0)
  dimension "d151" = 4.5
  dimension "d152" = 4.5
  dimension "d153" = 0.5
  dimension "d154" = 3
  dimension "d155" = 3
  dimension "d156" = 3
  dimension "d157" = 3
  dimension "d158" = 0.5
  dimension "d159" = 4.5
  dimension "d160" = 3
  dimension "d161" = 4.5
  dimension "d162" = 3
  dimension "d163" = 3
  dimension "d164" = 3
sketch "Sketch42" plane through (0, 0, -3) normal (0, 0, -1) x (-1, 0, 0)
  point P0 (0, 0)
sketch "Sketch43" plane through (0, 0, -3) normal (0, 0, -1) x (-1, 0, 0)
  line L0 (-21, -2) -> (-21, 32) projected
  line L1 (4, 13.5) -> (4, -2) projected
  line L2 (-21, 32) -> (4, 32)
  line L3 (4, 32) -> (4, 9.5)
  line L4 (4, 9.5) -> (-21, 9.5)
  line L5 (-21, 9.5) -> (-21, 32)
  point P0 (0, 0)
  dimension "d165" = 22.5
sketch "Sketch44" plane through (0, 0, -3) normal (0, 0, -1) x (-1, 0, 0)
  line L0 (10, 9.5) -> (10, 32) projected
  line L1 (10, 9.5) -> (-28.3786, 9.5)
  line L2 (-28.3786, 9.5) -> (-28.3786, 33.0505)
  line L3 (-28.3786, 33.0505) -> (10, 33.0505)
  line L4 (10, 33.0505) -> (10, 9.5)
  point P0 (0, 0)
extrude "Extrusion35" cut sketch "Sketch44" against normal blind 3
sketch "Sketch45" plane through (0, 0, 0) normal (0, 0, -1) x (-1, 0, 0)
  line L0 (4, 13.5) -> (-21, 13.5) projected
  line L1 (4, 32) -> (4, -2) projected
  line L2 (-21, 13.5) -> (4, 13.5)
  line L3 (4, 13.5) -> (4, 32)
  line L4 (4, 32) -> (-21, 32)
  line L5 (-21, 32) -> (-21, 13.5)
  point P0 (0, 0)
extrude "Extrusion36" add sketch "Sketch45" along normal blind 20
sketch "Sketch46" plane through (0, 0, -20) normal (0, 0, -1) x (-1, 0, 0)
  line L0 (-21, 32) -> (4, 32) projected
  line L1 (-21, 32) -> (-27.5, 32)
  line L2 (-27.5, 32) -> (-27.5, 13.5)
  line L3 (-27.5, 13.5) -> (-21, 13.5)
  line L4 (-21, 13.5) -> (-21, 32)
  line L5 (4, 32) -> (4, -2) projected
  line L6 (4, 32) -> (10.5, 32)
  line L7 (10.5, 32) -> (10.5, 13.5)
  line L8 (10.5, 13.5) -> (4, 13.5)
  line L9 (4, 13.5) -> (4, 32)
  line L10 (10.5, 13.5) -> (-27.5, 13.5)
  point P0 (0, 0)
extrude "Extrusion37" add sketch "Sketch46" along normal blind 4
sketch "Sketch47" plane through (0, 0, -20) normal (0, 0, 1) x (1, 0, 0)
  line L0 (-4, 13.5) -> (-10.5, 13.5) projected
  line L1 (-10.5, 13.5) -> (27.5, 13.5)
  line L2 (27.5, 13.5) -> (27.5, 10.5)
  line L3 (27.5, 10.5) -> (-10.5, 10.5)
  line L4 (-10.5, 10.5) -> (-10.5, 13.5)
  point P0 (0, 0)
  dimension "d175" = 3
extrude "Extrusion38" add sketch "Sketch47" against normal blind 4
sketch "Sketch48" plane through (0, 0, -20) normal (0, 0, 1) x (1, 0, 0)
  line L0 (-10.5, 10.5) -> (27.5, 10.5) projected
  line L1 (-10.5, 10.5) -> (-10.5, 15)
  line L2 (-10.5, 10.5) -> (-10.5, 32) projected
  line L3 (-10.5, 15) -> (-7.25, 15)
  line L4 (-10.5, 32) -> (-10.5, 27.5)
  line L5 (-10.5, 27.5) -> (-7.25, 27.5)
  circle A0 centre (-7.25, 15) radius 1.5
  circle A1 centre (-7.25, 27.5) radius 1.5
  line L6 (27.5, 32) -> (27.5, 10.5) projected
  line L7 (27.5, 10.5) -> (27.5, 15)
  line L8 (27.5, 15) -> (27.5, 18)
  line L9 (27.5, 15) -> (24.25, 15)
  line L10 (-10.5, 32) -> (27.5, 32) projected
  line L11 (27.5, 32) -> (27.5, 27.5)
  line L12 (27.5, 27.5) -> (24.25, 27.5)
  circle A2 centre (24.25, 27.5) radius 1.5
  circle A3 centre (24.25, 15) radius 1.5
  line L13 (-7.5, 15) -> (-7.25, 15)
  line L14 (24.5, 15) -> (24.25, 15)
  point P0 (0, 0)
  dimension "d178" = 4.5
  dimension "d180" = 4.5
  dimension "d184" = 4.5
  dimension "d185" = 3
  dimension "d187" = 4.5
  dimension "d195" = 0.25
extrude "Extrusion39" cut sketch "Sketch48" against normal blind 4 contours A3 | A2 | A1 | A0
sketch "Sketch49" plane through (0, -2, 0) normal (0, -1, 0) x (1, 0, 0)
  point P0 (0, 0)
sketch "Sketch50" plane through (-4, 13.5, 91) normal (0, -1, 0) x (1, 0, 0)
  point P0 (4, -91)
sketch "019855" plane through (-4, 13.5, 91) normal (0, -1, 0) x (1, 0, 0)
  circle A0 centre (12.5, -12.2) radius 7.15 projected
  line L0 (19.65, -10.7) -> (19.65, -13.7)
  line L1 (19.65, -13.7) -> (19.65, -12.2)
  line L2 (5.35, -10.7) -> (5.35, -13.7)
  line L3 (5.5091, -12.2) -> (5.35, -12.2)
  line L4 (19.65, -10.7) -> (19.65, -13.7)
  line L5 (5.35, -13.7) -> (5.35, -10.7)
  point P0 (4, -91)
  point P1 (19.65, -12.2)
thread "Thread5" size "M2.5x0.45" class "6H" standard "ANSI Metric M Profile" full length
thread "Thread6" size "M2.5x0.45" class "6H" standard "ANSI Metric M Profile" full length
thread "Thread7" size "M2.5x0.45" class "6H" standard "ANSI Metric M Profile" full length
thread "Thread8" size "M2.5x0.45" class "6H" standard "ANSI Metric M Profile" full length
sketch "Sketch52" plane through (0, -2, 0) normal (0, -1, 0) x (1, 0, 0)
  point P0 (0, 0)
sketch "Sketch53" plane through (-4, 13.5, 91) normal (0, -1, 0) x (1, 0, 0)
  line L0 (0, 0) -> (25, 0) projected
  line L1 (25, 6) -> (25, -111) projected
  line L2 (0, 0) -> (25, 0)
  line L3 (25, 0) -> (25, -0.5)
  line L4 (25, -0.5) -> (0, -0.5)
  line L5 (0, -0.5) -> (0, 0)
  line L6 (25, -44.5) -> (0, -44.5) projected
  line L7 (0, -44.5) -> (25, -44.5)
  line L8 (25, -44.5) -> (25, -44)
  line L9 (25, -44) -> (0, -44)
  line L10 (0, -44) -> (0, -44.5)
  line L11 (0, -44) -> (25, -44)
  line L12 (25, -44) -> (25, -43.75)
  line L13 (25, -43.75) -> (0, -43.75)
  line L14 (0, -43.75) -> (0, -44)
  line L15 (0, -0.5) -> (25, -0.5)
  line L16 (25, -0.5) -> (25, -0.75)
  line L17 (25, -0.75) -> (0, -0.75)
  line L18 (0, -0.75) -> (0, -0.5)
  point P0 (4, -91)
  dimension "d210" = 0.5
  dimension "d211" = 0.5
  dimension "d214" = 0.25
  dimension "d215" = 0.25
extrude "Extrusion42" add sketch "Sketch53" along normal blind 15.5 contours L0 L1 L4 L5 | L1 L6 L10 L9
extrude "Extrusion43" add sketch "Sketch53" along normal blind 15.5 contours L1 L9 L14 L13 | L4 L1 L17 L18
sketch "Sketch54" plane through (-4, 13.5, 90.25) normal (0, -1, 0) x (1, 0, 0)
  point P0 (4, -90.25)
sketch "Sketch55" plane through (-4, 13.5, 90.25) normal (0, -1, 0) x (1, 0, 0)
  point P0 (4, -90.25)
sketch "Sketch56" plane through (-4, 13.5, 90.25) normal (0, -1, 0) x (1, 0, 0)
  point P0 (4, -90.25)
properties part number "ramie_1"
